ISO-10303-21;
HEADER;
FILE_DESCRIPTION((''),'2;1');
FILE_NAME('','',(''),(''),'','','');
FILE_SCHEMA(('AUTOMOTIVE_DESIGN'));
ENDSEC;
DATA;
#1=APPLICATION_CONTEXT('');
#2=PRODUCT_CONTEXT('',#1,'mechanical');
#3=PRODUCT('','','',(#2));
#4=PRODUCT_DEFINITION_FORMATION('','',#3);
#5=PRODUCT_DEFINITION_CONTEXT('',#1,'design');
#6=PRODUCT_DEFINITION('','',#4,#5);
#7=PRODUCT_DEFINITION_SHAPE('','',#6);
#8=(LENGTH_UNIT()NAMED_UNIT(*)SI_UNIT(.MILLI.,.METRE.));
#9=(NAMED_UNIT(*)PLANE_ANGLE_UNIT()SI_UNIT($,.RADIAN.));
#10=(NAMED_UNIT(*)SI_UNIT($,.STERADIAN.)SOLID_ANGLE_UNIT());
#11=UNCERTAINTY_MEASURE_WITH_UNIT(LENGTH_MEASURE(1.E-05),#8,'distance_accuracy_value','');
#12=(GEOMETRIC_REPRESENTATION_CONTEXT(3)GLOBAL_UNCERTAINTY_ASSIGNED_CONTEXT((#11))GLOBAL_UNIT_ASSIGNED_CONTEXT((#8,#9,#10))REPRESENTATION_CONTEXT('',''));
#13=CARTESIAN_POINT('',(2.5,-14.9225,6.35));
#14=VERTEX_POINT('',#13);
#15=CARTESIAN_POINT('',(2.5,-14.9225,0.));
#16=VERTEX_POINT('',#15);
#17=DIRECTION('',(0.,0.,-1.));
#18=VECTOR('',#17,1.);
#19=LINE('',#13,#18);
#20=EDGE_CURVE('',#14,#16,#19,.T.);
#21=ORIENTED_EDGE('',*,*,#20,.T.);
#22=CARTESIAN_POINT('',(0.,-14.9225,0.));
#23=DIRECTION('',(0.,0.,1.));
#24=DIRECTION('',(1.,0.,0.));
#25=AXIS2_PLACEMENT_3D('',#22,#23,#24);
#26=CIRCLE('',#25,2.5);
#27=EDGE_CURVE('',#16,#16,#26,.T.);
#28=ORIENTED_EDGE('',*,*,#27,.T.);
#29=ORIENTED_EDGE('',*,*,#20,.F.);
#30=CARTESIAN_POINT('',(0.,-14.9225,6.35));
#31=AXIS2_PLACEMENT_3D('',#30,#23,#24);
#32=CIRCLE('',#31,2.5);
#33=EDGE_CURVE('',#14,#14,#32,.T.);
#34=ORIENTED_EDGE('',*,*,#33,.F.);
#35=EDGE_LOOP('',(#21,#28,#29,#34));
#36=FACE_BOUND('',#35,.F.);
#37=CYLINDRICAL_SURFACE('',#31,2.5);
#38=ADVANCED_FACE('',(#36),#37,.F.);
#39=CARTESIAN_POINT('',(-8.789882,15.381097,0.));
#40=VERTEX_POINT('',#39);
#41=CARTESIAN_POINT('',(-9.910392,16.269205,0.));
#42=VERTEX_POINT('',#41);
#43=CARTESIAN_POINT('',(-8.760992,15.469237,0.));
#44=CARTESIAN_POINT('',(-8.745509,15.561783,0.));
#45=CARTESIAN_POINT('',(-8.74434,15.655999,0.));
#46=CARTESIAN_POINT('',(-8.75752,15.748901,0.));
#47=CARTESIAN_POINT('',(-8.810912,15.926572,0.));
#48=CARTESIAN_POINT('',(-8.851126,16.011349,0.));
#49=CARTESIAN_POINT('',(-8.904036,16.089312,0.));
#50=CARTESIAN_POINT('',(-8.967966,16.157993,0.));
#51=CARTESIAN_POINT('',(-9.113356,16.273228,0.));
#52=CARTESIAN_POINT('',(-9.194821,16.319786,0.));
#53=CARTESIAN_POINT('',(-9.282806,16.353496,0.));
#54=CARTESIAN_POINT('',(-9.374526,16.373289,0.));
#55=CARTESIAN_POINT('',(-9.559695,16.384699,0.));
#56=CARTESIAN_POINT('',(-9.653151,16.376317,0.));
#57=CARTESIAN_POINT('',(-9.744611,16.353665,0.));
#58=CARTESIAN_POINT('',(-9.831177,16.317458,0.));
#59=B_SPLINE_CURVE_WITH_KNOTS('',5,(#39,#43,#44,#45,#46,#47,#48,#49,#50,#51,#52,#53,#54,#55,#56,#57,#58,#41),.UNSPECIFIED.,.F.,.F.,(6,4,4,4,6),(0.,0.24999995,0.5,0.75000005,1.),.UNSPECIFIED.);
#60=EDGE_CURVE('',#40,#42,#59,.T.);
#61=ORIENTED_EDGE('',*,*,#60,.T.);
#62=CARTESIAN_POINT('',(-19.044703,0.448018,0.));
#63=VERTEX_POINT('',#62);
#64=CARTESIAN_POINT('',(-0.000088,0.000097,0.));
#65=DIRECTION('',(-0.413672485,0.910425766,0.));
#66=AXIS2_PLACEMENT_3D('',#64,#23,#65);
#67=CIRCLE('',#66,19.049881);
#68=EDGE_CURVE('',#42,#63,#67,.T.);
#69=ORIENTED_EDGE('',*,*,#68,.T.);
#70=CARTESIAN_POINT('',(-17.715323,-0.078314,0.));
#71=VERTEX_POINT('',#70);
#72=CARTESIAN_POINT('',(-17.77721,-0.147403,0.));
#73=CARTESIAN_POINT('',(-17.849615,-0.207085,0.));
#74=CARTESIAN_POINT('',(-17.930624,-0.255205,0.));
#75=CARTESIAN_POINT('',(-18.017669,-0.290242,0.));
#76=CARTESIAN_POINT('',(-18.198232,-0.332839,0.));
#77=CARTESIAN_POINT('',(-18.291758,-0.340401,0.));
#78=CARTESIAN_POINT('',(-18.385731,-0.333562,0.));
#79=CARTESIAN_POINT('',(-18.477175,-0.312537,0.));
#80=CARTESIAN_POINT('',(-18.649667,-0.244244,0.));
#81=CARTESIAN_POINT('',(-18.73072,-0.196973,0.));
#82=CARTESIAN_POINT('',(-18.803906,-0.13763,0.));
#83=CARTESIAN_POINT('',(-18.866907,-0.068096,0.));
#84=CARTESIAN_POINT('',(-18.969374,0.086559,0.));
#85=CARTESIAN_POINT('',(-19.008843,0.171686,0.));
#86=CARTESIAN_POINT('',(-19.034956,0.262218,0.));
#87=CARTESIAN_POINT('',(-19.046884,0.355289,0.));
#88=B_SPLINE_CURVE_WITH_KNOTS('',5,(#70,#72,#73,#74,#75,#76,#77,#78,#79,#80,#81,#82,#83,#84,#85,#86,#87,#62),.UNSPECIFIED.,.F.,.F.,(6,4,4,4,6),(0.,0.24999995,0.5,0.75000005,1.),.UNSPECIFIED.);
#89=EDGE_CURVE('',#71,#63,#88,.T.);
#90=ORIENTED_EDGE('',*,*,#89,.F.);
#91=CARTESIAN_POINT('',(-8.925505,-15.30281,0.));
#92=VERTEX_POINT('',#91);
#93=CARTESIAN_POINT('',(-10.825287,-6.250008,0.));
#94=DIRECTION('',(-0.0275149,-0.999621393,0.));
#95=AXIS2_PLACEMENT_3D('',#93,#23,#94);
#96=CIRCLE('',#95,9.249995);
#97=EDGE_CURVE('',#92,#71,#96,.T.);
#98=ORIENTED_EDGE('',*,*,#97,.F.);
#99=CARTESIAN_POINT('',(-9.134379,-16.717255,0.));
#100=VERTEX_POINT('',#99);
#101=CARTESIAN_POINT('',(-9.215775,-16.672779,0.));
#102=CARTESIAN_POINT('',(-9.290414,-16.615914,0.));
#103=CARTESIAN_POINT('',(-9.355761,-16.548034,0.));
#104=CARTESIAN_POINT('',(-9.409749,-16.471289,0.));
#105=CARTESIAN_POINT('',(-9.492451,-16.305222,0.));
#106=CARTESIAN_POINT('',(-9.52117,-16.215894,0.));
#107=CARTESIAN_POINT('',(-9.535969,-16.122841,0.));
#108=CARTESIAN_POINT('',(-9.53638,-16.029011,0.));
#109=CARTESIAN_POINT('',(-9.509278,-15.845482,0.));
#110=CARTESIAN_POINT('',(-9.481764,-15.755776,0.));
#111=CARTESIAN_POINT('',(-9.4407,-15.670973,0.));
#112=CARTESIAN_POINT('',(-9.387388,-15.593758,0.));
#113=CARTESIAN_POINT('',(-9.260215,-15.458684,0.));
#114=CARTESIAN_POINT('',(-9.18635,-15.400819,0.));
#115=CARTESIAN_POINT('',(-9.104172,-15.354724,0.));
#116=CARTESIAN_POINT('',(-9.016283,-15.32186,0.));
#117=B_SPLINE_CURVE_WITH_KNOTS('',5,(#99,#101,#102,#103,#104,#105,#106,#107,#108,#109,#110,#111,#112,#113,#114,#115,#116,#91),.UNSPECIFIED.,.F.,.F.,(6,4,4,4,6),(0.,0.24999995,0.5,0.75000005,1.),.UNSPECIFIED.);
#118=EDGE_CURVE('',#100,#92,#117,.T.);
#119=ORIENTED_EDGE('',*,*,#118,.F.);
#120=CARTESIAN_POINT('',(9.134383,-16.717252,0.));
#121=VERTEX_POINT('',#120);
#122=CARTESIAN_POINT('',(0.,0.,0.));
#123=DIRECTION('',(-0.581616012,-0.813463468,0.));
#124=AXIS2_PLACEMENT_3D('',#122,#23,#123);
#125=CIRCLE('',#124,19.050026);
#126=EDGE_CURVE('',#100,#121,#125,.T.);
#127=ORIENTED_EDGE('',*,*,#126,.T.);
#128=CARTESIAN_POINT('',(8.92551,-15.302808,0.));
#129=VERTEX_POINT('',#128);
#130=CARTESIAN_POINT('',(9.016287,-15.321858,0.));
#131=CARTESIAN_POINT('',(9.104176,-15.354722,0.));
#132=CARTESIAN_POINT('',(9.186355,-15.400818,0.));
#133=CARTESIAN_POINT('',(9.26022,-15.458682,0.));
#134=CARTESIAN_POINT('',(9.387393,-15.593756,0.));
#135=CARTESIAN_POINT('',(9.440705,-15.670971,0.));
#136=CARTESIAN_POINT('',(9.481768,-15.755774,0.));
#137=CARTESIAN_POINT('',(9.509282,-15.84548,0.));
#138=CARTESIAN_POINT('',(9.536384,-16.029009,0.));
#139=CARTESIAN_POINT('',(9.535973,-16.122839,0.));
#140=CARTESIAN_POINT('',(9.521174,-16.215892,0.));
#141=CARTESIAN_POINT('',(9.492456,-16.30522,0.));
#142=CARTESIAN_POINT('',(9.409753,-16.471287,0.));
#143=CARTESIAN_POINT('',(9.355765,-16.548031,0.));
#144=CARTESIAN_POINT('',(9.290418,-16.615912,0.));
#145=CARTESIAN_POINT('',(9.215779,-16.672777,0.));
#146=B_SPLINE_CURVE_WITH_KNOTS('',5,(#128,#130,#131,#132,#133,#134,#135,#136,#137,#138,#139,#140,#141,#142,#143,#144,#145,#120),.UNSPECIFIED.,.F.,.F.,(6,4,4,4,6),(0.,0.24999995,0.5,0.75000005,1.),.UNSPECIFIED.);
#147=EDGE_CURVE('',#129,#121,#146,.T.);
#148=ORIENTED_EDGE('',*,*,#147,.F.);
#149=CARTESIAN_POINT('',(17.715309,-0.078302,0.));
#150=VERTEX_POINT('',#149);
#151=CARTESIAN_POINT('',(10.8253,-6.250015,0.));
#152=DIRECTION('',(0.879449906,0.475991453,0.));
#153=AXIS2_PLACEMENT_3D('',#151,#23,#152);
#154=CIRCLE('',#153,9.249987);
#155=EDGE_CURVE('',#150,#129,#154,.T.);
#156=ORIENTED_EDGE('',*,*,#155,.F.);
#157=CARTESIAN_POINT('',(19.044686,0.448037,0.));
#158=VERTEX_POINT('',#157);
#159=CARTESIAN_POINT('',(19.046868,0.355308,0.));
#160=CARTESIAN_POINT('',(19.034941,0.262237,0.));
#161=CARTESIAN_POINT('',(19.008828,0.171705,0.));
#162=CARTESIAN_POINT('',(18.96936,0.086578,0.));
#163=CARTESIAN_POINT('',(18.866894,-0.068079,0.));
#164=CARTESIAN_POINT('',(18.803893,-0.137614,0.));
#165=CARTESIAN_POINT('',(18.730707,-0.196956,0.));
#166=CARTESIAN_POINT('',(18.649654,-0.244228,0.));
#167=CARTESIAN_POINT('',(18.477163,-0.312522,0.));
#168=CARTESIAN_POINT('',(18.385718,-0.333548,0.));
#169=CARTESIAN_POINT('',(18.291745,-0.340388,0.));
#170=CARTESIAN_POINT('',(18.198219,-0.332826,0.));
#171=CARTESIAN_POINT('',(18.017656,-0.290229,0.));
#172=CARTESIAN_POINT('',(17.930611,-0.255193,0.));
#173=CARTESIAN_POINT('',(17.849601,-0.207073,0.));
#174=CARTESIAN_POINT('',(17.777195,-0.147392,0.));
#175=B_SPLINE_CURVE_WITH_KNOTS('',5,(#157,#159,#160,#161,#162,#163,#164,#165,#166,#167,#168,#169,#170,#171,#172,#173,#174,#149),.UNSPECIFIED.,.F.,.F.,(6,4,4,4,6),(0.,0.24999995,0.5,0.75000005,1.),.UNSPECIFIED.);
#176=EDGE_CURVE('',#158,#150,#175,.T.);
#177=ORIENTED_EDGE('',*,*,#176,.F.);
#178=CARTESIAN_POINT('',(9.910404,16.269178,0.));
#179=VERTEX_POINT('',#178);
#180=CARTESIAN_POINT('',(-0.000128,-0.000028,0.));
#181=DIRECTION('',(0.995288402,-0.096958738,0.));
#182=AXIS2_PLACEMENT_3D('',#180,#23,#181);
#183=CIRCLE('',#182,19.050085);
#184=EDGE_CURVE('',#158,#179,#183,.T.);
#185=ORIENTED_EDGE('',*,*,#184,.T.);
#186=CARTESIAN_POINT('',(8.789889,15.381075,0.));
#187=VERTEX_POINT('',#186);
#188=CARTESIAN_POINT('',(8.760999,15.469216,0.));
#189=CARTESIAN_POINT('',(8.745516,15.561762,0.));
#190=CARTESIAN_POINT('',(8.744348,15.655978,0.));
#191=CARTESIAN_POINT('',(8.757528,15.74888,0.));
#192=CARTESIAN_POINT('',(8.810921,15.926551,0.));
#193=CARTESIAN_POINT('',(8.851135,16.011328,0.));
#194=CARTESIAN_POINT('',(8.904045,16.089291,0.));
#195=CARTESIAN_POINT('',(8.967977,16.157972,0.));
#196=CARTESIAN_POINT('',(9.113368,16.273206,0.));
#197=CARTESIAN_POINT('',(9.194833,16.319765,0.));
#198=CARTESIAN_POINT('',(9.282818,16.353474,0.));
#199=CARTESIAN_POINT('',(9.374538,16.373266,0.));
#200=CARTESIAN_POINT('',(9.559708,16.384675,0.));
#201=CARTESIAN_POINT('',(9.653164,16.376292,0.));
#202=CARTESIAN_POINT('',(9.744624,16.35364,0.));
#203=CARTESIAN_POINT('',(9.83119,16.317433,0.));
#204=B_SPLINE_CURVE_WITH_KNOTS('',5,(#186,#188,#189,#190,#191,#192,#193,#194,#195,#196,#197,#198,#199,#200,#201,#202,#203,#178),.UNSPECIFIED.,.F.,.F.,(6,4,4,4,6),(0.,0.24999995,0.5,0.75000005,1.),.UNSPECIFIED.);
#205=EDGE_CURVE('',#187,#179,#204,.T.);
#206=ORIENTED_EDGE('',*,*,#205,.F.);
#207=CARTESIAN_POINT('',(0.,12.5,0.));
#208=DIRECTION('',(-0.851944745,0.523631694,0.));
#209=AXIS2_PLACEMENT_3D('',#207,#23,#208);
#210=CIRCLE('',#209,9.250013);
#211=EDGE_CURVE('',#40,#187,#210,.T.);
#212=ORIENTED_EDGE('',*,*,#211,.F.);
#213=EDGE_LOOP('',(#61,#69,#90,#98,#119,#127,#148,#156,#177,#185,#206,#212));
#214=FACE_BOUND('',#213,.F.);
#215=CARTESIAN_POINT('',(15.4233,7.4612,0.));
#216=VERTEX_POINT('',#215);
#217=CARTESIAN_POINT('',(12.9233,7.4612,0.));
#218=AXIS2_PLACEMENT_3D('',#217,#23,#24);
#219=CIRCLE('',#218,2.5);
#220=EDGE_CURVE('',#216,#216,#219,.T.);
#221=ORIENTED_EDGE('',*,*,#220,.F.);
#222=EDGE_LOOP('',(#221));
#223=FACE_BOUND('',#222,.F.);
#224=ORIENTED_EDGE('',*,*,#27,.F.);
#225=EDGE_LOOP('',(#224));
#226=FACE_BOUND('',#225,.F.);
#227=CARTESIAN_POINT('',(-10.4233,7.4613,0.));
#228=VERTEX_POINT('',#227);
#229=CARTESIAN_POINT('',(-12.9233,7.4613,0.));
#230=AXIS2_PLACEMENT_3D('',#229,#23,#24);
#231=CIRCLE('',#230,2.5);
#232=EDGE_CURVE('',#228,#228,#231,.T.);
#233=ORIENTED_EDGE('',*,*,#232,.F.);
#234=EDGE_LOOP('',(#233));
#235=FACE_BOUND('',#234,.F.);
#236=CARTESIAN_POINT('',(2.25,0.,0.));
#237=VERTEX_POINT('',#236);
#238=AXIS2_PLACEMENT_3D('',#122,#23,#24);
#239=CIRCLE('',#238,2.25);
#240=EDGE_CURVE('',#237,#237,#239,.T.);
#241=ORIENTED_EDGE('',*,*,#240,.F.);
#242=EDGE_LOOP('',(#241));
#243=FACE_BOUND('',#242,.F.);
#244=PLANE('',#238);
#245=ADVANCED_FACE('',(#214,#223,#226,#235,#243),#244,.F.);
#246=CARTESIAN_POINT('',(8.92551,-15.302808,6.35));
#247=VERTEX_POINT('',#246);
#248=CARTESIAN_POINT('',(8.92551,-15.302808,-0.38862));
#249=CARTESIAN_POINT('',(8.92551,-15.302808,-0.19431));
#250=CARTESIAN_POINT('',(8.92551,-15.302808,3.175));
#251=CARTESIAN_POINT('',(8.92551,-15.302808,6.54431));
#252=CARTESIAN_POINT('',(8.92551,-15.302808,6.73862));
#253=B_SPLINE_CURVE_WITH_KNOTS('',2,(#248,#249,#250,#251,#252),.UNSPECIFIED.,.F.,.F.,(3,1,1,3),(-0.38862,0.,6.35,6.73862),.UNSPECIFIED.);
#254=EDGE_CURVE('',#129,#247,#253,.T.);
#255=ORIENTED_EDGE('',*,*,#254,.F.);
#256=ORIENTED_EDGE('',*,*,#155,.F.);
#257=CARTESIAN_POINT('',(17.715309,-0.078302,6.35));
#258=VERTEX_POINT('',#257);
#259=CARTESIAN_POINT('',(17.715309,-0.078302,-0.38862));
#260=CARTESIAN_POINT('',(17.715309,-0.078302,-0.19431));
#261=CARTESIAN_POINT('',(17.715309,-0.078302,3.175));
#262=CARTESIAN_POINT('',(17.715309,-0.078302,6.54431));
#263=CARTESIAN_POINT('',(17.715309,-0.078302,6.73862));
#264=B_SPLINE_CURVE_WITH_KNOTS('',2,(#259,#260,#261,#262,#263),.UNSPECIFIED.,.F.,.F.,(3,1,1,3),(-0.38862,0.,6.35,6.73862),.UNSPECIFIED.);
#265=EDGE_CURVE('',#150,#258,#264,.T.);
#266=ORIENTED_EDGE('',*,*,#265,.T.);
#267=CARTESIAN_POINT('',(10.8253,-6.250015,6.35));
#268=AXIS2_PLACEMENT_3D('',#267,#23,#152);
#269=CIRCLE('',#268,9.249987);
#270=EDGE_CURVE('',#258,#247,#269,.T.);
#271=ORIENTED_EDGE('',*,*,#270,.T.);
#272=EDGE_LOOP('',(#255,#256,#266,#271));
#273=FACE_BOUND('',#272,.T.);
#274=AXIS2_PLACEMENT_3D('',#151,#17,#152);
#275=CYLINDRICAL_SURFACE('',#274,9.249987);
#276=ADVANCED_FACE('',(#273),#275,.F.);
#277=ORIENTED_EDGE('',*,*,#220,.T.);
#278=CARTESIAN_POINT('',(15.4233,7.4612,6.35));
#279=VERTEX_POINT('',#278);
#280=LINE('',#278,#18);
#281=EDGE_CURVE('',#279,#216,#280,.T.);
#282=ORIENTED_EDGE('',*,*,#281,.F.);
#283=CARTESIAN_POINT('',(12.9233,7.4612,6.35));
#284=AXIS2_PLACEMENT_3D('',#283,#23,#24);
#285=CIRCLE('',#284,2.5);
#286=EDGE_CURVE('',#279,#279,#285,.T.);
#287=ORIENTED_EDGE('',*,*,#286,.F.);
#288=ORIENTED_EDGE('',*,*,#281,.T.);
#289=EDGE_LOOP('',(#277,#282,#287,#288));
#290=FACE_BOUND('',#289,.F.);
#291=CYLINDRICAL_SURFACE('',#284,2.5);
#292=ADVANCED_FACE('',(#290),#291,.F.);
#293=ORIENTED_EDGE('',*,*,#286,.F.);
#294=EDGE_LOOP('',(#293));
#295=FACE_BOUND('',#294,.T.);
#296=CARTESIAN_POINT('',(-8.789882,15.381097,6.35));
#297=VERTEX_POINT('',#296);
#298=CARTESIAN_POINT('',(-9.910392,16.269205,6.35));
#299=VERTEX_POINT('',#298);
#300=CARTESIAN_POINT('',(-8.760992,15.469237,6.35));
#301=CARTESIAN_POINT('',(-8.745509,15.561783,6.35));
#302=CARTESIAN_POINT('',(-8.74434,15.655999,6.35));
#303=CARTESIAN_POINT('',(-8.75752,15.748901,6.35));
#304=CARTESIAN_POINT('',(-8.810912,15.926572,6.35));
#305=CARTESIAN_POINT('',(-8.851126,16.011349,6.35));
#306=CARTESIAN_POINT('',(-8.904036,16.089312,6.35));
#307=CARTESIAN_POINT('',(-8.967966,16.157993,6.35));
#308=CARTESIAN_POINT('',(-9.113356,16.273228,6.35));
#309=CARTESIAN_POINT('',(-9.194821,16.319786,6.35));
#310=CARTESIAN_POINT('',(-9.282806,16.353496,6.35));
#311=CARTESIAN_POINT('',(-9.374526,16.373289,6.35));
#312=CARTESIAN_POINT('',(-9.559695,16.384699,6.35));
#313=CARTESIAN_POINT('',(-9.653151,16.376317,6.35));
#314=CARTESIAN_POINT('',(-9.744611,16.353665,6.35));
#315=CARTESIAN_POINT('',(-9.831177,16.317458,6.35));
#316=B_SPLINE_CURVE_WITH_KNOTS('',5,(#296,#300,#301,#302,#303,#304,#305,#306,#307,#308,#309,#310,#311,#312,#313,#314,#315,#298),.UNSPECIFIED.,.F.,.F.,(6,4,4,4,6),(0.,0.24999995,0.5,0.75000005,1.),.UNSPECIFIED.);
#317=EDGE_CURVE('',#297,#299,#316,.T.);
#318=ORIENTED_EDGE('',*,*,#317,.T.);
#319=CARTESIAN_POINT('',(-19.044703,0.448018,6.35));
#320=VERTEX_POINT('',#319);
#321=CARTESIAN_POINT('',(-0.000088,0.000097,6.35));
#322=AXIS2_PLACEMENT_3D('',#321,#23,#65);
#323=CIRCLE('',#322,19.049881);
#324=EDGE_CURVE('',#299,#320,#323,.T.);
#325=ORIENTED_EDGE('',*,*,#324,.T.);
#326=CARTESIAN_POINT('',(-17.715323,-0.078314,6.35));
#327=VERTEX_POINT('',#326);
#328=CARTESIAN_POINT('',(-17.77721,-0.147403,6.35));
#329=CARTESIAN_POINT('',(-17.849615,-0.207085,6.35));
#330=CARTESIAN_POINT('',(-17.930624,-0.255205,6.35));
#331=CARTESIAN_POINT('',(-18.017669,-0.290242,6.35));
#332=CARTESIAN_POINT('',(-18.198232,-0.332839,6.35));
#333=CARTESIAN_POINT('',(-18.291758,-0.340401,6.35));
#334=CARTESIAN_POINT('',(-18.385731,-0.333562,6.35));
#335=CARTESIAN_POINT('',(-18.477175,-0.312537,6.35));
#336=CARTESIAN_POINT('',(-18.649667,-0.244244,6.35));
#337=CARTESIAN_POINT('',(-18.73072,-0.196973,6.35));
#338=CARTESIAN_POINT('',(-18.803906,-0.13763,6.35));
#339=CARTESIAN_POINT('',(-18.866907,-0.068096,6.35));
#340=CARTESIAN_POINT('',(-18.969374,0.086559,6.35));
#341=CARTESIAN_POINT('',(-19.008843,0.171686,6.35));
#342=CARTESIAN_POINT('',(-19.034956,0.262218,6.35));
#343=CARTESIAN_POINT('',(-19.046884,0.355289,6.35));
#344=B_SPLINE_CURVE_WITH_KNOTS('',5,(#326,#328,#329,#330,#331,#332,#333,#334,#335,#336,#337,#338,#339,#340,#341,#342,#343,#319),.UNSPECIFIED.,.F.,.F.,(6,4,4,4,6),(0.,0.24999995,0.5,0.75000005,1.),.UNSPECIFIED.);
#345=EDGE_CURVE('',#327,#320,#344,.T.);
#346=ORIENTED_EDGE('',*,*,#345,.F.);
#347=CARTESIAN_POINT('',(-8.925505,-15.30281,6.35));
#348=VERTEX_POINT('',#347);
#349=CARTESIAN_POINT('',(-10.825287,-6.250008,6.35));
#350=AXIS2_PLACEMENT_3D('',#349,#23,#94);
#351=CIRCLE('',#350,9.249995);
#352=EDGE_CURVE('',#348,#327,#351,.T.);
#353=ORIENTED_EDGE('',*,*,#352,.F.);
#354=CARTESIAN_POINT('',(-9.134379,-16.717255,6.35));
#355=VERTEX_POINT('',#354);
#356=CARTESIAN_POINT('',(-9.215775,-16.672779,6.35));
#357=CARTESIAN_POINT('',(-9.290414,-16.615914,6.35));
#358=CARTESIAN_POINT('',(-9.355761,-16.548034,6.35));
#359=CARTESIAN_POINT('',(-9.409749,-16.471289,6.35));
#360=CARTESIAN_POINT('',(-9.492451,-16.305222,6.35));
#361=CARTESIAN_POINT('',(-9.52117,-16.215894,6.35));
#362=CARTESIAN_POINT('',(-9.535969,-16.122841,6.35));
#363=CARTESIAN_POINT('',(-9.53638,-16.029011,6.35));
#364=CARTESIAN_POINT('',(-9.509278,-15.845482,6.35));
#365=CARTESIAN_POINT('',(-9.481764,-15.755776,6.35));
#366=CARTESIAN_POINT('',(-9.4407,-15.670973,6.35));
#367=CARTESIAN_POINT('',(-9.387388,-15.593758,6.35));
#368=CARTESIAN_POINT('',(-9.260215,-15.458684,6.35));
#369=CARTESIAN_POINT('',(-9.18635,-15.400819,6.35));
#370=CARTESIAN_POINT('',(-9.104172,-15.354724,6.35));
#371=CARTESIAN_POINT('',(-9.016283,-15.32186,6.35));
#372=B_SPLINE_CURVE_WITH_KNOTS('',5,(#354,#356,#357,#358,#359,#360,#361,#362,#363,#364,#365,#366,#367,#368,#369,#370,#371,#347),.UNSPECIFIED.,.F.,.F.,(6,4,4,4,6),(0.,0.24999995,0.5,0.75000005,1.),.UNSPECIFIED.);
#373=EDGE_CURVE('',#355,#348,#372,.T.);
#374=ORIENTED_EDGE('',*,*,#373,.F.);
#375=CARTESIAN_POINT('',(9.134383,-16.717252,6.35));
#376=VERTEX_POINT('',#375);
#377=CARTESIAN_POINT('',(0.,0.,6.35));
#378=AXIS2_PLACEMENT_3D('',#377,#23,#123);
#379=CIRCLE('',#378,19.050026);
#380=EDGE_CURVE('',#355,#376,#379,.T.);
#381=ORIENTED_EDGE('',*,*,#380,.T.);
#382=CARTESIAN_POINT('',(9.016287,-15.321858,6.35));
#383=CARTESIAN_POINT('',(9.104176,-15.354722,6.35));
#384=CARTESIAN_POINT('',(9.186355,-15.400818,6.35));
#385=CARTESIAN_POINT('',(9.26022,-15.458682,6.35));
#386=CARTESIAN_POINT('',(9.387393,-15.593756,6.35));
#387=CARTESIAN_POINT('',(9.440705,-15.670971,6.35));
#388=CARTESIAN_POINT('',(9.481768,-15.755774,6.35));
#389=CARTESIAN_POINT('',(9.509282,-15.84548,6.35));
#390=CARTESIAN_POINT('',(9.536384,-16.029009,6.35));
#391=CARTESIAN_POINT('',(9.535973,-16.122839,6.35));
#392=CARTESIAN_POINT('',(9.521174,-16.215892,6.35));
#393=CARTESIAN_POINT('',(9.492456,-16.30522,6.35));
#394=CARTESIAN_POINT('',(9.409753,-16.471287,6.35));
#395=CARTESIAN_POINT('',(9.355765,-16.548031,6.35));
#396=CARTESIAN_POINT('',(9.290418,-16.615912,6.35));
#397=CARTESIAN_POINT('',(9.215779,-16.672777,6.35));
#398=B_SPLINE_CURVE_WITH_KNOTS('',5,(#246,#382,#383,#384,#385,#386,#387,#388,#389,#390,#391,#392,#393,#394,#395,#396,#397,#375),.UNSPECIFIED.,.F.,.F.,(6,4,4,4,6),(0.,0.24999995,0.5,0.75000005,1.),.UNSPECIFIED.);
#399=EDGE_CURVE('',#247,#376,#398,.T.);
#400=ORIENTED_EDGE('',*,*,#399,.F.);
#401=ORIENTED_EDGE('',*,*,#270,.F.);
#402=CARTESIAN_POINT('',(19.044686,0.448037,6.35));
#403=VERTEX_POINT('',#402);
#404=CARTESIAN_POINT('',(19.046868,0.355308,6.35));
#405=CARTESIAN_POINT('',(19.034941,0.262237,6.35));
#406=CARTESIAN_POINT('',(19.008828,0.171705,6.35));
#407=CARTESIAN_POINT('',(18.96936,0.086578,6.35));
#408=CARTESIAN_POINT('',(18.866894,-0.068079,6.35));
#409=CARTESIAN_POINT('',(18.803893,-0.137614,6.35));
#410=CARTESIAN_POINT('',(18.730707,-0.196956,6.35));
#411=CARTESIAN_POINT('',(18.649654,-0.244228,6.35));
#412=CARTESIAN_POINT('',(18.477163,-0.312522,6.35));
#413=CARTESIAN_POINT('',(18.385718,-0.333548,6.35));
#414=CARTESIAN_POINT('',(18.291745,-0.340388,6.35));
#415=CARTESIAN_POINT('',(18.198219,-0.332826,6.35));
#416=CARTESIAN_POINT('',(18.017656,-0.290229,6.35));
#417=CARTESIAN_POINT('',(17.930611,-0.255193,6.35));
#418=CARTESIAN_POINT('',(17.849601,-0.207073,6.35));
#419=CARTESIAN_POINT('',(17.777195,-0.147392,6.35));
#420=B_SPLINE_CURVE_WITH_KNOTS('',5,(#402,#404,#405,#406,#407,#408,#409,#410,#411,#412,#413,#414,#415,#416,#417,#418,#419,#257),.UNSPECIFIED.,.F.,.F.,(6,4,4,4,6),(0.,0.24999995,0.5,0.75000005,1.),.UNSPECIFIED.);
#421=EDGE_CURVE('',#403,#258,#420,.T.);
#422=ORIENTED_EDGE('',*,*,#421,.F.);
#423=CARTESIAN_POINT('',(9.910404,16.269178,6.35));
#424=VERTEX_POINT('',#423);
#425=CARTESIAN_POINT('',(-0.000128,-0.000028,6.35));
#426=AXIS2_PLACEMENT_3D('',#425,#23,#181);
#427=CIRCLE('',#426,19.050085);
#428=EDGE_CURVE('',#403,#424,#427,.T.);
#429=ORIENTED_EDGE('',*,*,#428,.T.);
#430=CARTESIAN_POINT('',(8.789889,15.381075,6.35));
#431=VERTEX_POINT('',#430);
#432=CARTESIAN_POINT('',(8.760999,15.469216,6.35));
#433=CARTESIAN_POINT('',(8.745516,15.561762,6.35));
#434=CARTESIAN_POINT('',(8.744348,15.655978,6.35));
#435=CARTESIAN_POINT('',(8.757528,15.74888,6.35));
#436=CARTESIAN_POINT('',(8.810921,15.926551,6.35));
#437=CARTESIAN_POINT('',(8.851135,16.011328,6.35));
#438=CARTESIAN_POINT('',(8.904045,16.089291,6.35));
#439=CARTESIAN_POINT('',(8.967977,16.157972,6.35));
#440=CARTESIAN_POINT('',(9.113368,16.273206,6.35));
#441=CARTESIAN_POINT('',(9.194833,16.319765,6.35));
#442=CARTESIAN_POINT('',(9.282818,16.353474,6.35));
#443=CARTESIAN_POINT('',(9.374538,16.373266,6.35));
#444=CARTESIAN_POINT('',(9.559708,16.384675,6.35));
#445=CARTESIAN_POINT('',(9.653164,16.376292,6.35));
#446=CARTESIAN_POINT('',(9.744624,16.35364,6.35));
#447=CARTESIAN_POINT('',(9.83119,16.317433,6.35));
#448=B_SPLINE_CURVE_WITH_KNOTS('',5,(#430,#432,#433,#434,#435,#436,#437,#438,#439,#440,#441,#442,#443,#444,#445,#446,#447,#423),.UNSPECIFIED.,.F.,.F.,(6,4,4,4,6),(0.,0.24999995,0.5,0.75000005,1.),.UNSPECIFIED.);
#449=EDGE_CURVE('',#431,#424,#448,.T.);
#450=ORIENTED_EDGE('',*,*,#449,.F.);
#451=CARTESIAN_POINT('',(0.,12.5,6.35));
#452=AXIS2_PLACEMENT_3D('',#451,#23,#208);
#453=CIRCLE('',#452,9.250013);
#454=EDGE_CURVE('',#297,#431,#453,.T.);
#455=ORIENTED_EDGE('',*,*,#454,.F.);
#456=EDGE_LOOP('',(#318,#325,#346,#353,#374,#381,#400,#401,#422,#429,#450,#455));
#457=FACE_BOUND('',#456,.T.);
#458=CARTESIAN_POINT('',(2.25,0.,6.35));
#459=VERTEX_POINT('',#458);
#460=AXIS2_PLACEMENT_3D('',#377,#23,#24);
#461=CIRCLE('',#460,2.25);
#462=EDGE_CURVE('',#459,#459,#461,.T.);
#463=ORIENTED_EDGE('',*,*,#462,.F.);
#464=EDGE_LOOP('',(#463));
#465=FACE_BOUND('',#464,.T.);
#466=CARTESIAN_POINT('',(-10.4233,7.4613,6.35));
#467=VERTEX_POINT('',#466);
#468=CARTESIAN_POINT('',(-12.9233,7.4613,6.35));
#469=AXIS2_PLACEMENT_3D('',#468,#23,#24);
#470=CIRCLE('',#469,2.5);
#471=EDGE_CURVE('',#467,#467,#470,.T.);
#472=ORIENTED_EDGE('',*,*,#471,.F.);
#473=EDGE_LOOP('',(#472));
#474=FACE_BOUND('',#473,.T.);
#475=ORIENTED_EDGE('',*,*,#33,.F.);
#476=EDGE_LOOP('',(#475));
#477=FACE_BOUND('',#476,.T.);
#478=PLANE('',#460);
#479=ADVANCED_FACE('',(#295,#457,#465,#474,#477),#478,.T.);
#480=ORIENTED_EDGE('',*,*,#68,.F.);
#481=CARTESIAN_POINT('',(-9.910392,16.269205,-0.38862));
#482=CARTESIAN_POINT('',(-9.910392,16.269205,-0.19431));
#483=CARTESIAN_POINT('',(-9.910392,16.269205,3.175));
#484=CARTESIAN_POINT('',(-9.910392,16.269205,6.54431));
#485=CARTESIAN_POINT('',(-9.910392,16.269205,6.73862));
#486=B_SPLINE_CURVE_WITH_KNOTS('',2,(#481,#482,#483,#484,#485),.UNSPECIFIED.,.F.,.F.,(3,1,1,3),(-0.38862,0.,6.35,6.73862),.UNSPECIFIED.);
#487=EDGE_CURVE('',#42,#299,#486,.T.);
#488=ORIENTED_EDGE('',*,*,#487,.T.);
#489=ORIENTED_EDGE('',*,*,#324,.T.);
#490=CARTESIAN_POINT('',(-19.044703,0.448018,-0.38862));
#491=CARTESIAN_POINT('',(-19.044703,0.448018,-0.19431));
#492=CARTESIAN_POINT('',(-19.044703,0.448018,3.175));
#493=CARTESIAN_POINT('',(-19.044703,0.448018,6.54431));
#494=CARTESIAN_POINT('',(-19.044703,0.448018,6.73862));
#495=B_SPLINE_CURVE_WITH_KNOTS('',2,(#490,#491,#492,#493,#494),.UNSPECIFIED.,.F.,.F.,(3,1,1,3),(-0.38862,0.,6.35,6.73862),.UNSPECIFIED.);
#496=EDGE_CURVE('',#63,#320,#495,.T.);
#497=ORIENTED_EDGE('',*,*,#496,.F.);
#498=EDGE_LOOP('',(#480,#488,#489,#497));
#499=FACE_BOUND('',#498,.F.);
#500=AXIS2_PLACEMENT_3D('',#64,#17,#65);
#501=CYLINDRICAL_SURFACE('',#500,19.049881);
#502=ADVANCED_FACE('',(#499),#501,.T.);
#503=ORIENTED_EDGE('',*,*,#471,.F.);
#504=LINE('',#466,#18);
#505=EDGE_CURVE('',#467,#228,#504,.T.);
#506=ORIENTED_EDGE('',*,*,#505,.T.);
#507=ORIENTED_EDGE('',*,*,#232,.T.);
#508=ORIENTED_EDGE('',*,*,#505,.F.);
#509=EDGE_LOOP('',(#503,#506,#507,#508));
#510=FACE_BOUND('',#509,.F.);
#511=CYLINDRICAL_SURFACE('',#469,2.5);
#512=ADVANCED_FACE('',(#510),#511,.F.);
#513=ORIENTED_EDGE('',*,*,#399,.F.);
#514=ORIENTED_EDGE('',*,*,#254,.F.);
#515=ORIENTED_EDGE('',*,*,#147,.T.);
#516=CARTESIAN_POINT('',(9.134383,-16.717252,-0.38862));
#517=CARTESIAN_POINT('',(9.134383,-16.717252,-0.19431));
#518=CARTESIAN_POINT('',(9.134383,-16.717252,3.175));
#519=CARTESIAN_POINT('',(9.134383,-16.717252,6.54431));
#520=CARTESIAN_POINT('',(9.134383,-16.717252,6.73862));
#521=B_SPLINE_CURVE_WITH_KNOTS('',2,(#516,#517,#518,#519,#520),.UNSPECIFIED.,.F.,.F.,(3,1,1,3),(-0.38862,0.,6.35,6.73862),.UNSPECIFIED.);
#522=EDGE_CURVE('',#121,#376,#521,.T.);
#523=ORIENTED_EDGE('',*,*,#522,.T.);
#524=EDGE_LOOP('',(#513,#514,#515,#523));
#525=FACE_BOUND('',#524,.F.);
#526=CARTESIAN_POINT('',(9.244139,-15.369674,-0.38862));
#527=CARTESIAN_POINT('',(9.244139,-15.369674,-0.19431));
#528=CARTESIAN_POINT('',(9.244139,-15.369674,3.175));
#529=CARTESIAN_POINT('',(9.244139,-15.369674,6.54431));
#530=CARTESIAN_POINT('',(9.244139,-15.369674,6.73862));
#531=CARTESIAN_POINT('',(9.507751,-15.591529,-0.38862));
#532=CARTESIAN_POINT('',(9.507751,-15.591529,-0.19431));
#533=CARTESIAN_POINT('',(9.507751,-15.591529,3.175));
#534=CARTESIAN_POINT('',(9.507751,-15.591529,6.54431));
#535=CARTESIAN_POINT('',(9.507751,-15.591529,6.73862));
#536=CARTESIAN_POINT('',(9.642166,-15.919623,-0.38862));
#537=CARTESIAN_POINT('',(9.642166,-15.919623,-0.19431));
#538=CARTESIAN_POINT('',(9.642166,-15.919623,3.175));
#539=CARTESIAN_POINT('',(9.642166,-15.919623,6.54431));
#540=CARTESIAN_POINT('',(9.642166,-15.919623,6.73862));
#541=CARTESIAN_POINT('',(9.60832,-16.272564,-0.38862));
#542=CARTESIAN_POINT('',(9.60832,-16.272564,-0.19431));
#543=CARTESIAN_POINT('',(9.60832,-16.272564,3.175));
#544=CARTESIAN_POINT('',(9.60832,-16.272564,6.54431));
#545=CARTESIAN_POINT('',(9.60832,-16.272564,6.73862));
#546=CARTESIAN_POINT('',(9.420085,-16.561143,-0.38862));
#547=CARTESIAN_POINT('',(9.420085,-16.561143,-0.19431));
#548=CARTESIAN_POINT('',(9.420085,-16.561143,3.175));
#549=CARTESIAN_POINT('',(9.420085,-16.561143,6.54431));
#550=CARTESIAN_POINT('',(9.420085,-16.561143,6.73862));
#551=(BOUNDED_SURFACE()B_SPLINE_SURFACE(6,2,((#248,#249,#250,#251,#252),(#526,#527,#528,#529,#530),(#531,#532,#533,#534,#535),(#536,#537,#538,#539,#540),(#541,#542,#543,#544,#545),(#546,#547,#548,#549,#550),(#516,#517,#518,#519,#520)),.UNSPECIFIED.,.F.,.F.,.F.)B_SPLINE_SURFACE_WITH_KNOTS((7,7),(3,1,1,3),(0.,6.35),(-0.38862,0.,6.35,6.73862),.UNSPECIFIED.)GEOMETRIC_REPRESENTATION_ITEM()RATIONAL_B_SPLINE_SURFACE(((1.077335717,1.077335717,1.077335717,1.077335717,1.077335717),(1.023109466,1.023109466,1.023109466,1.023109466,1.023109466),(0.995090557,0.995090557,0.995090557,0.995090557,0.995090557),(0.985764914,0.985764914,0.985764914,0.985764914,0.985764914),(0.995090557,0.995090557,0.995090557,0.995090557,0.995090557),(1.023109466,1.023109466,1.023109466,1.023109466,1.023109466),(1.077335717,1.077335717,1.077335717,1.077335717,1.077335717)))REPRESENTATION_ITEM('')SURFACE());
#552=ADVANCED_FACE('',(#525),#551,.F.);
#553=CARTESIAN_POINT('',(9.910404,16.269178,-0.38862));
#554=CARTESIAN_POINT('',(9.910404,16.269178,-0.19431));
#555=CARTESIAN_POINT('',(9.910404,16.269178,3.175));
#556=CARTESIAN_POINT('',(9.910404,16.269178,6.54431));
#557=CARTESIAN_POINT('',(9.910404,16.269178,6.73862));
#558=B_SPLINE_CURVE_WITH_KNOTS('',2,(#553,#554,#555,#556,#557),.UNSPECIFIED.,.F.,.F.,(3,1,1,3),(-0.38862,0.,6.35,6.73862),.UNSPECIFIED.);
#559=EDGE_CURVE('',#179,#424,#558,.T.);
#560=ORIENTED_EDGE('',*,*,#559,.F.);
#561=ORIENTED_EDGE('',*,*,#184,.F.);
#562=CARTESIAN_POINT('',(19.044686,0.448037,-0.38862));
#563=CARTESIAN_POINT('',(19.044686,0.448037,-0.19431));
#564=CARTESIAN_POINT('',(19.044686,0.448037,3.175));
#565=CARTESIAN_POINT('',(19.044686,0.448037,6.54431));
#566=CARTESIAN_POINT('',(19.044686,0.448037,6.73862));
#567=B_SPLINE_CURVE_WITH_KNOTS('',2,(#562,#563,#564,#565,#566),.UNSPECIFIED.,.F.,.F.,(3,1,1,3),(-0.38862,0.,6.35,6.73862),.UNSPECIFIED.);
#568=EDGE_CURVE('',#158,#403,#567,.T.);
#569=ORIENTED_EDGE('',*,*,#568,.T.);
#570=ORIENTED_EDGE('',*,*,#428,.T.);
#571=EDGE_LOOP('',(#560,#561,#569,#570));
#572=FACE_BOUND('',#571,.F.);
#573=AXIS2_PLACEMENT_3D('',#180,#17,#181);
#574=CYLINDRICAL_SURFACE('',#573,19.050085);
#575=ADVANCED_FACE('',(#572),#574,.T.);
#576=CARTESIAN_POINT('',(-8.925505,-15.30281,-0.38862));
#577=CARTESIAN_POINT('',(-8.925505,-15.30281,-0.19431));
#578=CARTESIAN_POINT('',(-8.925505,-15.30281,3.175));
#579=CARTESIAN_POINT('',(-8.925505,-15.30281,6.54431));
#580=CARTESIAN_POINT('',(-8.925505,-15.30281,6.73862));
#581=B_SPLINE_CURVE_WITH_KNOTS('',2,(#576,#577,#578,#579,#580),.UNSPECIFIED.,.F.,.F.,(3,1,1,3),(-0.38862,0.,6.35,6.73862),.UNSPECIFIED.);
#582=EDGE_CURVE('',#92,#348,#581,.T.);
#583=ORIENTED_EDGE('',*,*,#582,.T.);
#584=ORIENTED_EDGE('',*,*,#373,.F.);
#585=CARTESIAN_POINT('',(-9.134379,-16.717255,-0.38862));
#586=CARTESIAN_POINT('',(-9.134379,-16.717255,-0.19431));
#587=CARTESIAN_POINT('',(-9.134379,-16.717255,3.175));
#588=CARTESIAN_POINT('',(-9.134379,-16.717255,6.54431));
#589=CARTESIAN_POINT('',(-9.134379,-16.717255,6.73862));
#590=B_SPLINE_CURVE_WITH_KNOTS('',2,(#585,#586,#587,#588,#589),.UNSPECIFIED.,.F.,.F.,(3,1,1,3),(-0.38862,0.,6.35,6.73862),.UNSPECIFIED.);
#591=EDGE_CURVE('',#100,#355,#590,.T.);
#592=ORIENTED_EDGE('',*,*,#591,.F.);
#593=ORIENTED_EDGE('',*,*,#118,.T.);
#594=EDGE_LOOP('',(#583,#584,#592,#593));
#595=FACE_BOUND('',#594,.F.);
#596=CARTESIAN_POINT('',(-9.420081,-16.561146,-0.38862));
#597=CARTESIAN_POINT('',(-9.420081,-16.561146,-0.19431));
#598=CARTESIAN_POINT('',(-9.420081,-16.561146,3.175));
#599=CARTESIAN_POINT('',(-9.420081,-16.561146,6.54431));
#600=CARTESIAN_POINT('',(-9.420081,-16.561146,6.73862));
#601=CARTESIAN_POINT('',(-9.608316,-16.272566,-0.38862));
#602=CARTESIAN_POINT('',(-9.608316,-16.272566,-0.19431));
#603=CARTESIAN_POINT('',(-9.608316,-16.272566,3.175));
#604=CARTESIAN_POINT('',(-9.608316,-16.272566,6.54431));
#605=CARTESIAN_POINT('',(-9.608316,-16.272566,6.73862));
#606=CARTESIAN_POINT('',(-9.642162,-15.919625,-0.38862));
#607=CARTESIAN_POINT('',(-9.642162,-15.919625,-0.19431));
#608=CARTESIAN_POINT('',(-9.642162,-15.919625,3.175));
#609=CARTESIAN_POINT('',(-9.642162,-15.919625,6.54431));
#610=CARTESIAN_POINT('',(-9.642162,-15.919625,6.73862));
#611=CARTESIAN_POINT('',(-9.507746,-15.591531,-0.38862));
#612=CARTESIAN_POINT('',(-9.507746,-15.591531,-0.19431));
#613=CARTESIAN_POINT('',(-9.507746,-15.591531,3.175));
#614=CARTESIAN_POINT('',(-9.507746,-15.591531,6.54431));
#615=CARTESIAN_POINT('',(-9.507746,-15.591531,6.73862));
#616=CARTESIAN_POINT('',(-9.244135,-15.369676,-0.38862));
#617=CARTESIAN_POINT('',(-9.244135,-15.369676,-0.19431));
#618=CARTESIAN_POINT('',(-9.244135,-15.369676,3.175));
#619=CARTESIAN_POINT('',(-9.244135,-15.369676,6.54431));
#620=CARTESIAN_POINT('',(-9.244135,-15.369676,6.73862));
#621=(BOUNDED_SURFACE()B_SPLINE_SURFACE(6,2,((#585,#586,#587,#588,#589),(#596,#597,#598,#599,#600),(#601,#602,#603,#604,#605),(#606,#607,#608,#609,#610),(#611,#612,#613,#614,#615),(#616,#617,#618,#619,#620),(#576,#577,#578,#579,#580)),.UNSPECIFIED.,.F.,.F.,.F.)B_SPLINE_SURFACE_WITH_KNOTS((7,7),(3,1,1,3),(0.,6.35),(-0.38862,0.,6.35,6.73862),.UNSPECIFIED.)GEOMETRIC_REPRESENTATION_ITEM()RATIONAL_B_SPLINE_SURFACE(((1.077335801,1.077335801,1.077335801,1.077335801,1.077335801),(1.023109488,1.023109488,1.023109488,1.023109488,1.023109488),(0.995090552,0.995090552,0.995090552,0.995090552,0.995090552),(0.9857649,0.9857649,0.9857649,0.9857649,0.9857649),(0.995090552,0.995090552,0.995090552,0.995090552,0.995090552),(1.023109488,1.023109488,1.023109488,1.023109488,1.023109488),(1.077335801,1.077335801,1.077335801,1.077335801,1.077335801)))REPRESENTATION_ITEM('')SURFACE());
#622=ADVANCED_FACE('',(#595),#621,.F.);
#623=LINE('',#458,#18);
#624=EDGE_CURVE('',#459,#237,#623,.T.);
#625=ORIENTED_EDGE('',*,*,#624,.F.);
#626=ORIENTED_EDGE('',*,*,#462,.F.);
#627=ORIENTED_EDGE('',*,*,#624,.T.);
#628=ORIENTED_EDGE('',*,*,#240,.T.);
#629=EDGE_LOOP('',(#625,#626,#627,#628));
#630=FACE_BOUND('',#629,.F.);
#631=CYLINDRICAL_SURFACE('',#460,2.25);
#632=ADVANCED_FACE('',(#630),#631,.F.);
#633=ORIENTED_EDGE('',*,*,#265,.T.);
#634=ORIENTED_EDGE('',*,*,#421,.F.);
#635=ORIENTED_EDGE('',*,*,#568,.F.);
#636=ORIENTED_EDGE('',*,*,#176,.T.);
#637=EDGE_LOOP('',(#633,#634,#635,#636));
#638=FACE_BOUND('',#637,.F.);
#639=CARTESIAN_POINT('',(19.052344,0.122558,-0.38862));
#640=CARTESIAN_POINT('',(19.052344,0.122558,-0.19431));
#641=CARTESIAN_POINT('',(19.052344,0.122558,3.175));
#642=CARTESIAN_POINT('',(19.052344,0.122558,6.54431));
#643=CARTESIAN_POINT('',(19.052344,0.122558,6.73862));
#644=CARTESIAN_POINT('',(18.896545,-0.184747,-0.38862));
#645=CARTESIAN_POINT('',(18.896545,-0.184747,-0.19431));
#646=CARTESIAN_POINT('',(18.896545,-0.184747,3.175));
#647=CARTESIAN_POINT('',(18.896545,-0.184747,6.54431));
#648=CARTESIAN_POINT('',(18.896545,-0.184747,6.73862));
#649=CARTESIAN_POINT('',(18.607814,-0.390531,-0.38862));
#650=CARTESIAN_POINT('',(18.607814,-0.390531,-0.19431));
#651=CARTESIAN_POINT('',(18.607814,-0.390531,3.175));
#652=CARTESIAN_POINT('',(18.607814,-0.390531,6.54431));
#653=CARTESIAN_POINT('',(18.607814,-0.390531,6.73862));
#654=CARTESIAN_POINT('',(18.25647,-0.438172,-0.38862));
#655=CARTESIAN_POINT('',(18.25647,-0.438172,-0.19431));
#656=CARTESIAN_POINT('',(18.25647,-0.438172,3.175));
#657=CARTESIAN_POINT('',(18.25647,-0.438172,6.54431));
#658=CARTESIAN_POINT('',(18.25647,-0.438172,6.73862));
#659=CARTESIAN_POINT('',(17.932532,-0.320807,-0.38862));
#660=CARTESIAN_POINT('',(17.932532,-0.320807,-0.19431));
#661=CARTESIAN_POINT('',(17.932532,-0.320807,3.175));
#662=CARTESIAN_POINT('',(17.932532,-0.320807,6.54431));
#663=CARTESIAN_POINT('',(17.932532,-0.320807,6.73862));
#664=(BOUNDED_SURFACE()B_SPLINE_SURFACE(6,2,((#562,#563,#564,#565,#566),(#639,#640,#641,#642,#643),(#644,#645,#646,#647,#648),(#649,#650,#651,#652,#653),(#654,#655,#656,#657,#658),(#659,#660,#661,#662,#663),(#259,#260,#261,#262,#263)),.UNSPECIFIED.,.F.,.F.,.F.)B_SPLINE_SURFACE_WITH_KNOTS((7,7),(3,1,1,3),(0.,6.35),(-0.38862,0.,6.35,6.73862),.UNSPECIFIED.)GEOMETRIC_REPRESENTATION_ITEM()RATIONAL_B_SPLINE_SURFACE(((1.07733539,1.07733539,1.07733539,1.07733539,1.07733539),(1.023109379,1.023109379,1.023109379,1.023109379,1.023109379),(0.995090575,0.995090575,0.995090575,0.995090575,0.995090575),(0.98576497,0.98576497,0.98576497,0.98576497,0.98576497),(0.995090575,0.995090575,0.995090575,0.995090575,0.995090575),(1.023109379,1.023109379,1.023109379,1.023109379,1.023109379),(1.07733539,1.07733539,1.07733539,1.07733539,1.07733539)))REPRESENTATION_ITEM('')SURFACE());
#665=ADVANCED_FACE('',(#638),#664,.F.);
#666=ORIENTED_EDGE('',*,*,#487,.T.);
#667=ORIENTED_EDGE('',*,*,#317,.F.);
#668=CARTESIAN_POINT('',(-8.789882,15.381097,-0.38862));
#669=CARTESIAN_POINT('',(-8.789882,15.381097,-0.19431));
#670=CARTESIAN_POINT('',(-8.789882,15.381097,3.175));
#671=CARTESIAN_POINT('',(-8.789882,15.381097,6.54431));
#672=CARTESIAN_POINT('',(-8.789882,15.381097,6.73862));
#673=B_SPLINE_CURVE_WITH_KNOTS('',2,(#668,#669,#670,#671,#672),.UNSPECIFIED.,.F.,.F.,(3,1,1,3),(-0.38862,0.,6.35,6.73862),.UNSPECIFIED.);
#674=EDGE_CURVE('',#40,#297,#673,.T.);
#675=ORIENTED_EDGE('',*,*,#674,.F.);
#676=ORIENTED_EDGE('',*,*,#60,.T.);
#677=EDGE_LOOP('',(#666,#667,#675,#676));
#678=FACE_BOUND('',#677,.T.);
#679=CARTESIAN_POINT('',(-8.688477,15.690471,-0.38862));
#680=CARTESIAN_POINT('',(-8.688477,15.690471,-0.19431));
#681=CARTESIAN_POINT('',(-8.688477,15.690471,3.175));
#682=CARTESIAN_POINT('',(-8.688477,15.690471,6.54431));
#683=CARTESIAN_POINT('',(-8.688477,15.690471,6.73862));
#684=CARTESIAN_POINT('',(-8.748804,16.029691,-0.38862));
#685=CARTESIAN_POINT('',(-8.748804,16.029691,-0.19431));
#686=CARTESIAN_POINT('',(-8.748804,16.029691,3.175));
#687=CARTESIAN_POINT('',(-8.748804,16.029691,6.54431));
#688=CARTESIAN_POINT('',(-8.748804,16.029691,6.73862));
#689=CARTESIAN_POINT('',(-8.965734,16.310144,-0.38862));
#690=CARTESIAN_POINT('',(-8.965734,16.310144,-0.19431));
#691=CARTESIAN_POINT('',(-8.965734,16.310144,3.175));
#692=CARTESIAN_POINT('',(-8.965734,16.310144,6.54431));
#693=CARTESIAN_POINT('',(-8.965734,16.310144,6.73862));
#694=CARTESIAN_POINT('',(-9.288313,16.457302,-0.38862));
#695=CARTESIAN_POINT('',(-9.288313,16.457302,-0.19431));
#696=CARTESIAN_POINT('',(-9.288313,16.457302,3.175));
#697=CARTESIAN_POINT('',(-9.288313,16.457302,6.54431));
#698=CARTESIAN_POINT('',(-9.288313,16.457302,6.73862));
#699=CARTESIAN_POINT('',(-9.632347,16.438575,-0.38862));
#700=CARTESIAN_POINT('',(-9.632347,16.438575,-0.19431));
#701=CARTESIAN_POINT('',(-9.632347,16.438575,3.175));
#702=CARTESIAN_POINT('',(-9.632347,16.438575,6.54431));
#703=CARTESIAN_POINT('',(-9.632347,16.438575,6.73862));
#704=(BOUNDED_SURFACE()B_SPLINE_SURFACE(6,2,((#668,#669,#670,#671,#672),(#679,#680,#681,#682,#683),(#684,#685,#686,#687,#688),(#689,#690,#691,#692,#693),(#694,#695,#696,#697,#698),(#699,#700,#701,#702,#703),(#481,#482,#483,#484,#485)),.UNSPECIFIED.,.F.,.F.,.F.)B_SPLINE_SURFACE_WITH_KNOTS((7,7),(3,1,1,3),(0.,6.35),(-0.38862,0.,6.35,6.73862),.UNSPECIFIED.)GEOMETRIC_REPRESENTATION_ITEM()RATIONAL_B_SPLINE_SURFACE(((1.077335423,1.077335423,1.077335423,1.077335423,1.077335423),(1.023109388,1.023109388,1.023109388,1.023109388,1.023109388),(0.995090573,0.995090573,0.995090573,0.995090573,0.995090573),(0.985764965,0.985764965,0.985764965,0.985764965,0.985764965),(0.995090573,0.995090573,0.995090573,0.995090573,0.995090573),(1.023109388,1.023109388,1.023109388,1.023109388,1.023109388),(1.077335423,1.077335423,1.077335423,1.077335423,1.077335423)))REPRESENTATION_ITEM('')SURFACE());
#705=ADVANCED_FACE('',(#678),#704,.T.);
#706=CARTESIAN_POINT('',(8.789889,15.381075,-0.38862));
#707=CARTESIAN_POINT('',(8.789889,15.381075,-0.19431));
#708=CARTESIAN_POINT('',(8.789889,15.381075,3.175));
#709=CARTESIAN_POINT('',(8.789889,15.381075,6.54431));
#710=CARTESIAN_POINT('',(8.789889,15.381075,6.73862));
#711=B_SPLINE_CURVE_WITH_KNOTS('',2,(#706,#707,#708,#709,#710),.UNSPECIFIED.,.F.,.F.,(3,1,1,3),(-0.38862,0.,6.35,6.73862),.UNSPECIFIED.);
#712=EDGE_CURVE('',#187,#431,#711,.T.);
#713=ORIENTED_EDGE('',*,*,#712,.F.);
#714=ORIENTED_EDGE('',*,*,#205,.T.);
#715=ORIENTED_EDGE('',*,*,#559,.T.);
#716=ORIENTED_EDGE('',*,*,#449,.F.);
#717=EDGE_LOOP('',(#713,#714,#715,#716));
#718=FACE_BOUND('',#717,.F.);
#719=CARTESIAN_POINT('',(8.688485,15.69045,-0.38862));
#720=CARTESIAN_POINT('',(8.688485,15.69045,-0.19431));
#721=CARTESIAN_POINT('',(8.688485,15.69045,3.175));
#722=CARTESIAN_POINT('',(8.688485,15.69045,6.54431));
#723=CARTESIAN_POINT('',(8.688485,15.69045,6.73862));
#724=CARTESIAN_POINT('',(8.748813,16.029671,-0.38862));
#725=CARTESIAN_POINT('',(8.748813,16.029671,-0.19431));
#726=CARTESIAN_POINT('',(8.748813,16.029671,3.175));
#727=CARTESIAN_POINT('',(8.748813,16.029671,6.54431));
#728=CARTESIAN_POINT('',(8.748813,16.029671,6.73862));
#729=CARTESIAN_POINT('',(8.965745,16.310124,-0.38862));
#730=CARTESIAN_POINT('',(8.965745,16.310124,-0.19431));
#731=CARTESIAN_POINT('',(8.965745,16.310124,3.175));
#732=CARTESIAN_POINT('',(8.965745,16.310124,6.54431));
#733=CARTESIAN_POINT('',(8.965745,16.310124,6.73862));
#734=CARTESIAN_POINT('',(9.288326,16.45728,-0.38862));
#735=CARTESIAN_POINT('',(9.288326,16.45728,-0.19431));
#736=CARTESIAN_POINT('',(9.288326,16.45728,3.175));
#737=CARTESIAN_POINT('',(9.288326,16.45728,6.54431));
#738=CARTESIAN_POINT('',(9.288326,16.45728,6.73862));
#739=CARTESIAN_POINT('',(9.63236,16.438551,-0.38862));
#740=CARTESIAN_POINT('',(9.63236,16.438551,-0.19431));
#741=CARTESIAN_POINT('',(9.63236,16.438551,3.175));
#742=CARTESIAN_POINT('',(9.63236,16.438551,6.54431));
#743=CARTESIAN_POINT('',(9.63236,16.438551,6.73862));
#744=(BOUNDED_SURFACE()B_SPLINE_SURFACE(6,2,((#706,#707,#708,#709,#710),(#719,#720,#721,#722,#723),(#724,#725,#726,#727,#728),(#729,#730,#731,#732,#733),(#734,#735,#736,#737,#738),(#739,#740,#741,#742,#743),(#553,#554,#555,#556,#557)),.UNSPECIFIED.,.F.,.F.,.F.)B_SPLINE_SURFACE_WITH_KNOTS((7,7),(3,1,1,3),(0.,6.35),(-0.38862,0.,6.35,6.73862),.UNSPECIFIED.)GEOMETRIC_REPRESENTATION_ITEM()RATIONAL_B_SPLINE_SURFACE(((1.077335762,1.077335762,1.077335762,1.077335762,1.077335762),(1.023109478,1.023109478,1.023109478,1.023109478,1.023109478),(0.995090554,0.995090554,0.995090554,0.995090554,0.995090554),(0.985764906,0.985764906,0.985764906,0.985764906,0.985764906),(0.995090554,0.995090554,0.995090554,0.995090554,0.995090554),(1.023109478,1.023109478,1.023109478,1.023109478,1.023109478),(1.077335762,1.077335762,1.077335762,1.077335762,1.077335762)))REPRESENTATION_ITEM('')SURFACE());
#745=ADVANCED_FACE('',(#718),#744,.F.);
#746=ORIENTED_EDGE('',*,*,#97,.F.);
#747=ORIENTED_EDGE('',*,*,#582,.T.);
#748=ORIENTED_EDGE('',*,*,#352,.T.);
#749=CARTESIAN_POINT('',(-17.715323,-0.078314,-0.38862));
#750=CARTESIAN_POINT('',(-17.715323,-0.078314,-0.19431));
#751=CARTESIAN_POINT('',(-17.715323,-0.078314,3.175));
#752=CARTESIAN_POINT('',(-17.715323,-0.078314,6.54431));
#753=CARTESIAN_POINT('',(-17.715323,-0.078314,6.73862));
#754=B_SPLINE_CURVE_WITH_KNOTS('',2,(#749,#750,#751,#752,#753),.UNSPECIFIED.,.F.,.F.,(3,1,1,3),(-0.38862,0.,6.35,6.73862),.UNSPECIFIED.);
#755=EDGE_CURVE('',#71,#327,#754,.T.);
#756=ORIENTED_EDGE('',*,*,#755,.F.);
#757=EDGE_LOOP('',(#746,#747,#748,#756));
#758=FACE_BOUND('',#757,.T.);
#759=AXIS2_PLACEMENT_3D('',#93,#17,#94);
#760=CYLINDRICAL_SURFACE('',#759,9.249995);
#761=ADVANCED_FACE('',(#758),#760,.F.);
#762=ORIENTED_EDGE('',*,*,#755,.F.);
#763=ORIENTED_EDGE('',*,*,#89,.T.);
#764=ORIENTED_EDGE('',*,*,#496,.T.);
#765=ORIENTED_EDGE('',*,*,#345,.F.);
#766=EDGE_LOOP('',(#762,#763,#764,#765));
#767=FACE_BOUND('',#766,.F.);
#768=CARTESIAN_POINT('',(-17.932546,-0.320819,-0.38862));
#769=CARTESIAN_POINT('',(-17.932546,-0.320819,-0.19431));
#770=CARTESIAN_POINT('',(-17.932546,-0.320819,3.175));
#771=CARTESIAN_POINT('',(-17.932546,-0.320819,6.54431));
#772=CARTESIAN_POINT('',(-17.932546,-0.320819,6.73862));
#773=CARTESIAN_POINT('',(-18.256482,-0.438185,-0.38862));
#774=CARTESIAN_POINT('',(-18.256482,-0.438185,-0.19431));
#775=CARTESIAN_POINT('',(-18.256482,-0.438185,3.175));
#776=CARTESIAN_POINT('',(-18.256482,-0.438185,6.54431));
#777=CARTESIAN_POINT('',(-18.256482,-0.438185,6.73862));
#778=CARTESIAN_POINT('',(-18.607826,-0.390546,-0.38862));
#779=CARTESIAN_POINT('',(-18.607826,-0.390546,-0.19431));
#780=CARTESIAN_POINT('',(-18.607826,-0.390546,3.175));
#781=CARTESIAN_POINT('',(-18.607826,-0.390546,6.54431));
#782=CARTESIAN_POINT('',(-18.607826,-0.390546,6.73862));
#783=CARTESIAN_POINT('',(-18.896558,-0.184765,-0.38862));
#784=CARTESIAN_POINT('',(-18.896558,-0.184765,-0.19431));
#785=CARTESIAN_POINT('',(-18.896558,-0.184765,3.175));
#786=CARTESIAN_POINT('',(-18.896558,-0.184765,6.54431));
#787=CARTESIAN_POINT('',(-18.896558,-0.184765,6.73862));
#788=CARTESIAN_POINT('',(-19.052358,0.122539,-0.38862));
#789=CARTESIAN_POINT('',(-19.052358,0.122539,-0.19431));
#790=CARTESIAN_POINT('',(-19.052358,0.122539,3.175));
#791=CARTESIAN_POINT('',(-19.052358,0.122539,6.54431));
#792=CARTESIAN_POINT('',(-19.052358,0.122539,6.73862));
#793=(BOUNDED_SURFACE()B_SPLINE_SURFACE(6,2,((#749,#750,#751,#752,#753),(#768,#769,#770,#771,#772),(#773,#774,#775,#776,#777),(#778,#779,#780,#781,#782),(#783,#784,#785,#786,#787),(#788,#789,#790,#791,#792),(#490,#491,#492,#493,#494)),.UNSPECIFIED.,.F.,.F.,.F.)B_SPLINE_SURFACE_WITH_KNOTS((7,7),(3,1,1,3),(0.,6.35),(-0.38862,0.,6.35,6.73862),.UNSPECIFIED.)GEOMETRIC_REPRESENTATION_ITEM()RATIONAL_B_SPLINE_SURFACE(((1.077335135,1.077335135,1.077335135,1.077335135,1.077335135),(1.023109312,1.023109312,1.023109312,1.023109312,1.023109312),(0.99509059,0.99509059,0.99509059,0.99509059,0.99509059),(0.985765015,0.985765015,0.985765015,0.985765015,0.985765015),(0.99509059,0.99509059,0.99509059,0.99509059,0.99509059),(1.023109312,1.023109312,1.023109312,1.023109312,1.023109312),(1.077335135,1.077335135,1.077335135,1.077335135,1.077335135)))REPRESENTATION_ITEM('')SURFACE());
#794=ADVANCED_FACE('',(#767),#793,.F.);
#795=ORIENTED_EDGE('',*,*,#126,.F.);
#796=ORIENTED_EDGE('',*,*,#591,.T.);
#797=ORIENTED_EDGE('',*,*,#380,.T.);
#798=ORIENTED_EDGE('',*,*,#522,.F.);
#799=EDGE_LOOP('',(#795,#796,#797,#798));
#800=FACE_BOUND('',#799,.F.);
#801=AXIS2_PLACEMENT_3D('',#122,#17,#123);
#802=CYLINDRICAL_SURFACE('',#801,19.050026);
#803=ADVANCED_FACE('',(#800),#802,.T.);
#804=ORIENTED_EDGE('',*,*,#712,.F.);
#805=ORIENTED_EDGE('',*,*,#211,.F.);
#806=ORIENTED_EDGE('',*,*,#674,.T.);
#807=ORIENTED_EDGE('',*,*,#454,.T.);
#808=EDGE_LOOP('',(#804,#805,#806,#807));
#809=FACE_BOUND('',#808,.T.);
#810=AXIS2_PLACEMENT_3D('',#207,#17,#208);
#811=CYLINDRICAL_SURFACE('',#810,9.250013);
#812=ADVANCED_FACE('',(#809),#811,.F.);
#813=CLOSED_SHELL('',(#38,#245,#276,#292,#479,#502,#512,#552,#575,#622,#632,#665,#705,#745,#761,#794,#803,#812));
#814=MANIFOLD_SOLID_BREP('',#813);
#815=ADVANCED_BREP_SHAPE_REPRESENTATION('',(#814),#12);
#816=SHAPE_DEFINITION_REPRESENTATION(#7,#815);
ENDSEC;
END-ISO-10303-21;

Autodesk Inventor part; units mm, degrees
ref_plane "YZ Plane" through (0, 0, 0) normal (1, 0, 0) x (0, 1, 0)
ref_plane "XZ Plane" through (0, 0, 0) normal (0, 1, 0) x (-1, 0, 0)
ref_plane "XY Plane" through (0, 0, 0) normal (0, 0, 1) x (1, 0, 0)
sketch "Sketch1" plane through (0, 0, 0) normal (0, 0, 1) x (1, 0, 0)
  circle A0 centre (0, 0) radius 12.5 construction
  arc A1 (-7.8805, 17.3436) -> (7.8805, 17.3436) centre (0, 12.5) ccw
  arc A2 (-11.0798, -15.4965) -> (-18.9602, -1.8471) centre (-10.8253, -6.25) ccw
  arc A3 (18.9602, -1.8471) -> (11.0798, -15.4965) centre (10.8253, -6.25) ccw
  arc A4 (-7.8805, 17.3436) -> (-18.9602, -1.8471) centre (0, 0) ccw
  arc A5 (-11.0798, -15.4965) -> (11.0798, -15.4965) centre (0, 0) ccw
  arc A6 (18.9602, -1.8471) -> (7.8805, 17.3436) centre (0, 0) ccw
  dimension "d0" = 25
  dimension "d1" = 18.5
  dimension "d5" = 360
extrude "Extrusion1" add sketch "Sketch1" along normal blind 6.35
fillet "Fillet1" radius 0.762 6 edges at (-7.8805, 17.3436, 3.175) (7.8805, 17.3436, 3.175) (18.9602, -1.8471, 3.175) (11.0798, -15.4965, 3.175) (-11.0798, -15.4965, 3.175) (-18.9602, -1.8471, 3.175)
sketch "Sketch2" plane through (0, 0, 6.35) normal (0, 0, 1) x (1, 0, 0)
  circle A0 centre (0, 0) radius 14.9225 construction
  circle A1 centre (0, -14.9225) radius 2.5
  circle A2 centre (12.9233, 7.4612) radius 2.5
  circle A3 centre (-12.9233, 7.4613) radius 2.5
  dimension "d10" = 29.845
  dimension "d11" = 5
  dimension "d14" = 360
extrude "Extrusion2" cut sketch "Sketch2" against normal blind 6.35
sketch "Sketch3" plane through (0, 0, 6.35) normal (0, 0, 1) x (1, 0, 0)
  circle A0 centre (0, 0) radius 2.25
  dimension "d18" = 4.5
extrude "Extrusion3" cut sketch "Sketch3" against normal blind 6.35
properties part number "battery_holder"
